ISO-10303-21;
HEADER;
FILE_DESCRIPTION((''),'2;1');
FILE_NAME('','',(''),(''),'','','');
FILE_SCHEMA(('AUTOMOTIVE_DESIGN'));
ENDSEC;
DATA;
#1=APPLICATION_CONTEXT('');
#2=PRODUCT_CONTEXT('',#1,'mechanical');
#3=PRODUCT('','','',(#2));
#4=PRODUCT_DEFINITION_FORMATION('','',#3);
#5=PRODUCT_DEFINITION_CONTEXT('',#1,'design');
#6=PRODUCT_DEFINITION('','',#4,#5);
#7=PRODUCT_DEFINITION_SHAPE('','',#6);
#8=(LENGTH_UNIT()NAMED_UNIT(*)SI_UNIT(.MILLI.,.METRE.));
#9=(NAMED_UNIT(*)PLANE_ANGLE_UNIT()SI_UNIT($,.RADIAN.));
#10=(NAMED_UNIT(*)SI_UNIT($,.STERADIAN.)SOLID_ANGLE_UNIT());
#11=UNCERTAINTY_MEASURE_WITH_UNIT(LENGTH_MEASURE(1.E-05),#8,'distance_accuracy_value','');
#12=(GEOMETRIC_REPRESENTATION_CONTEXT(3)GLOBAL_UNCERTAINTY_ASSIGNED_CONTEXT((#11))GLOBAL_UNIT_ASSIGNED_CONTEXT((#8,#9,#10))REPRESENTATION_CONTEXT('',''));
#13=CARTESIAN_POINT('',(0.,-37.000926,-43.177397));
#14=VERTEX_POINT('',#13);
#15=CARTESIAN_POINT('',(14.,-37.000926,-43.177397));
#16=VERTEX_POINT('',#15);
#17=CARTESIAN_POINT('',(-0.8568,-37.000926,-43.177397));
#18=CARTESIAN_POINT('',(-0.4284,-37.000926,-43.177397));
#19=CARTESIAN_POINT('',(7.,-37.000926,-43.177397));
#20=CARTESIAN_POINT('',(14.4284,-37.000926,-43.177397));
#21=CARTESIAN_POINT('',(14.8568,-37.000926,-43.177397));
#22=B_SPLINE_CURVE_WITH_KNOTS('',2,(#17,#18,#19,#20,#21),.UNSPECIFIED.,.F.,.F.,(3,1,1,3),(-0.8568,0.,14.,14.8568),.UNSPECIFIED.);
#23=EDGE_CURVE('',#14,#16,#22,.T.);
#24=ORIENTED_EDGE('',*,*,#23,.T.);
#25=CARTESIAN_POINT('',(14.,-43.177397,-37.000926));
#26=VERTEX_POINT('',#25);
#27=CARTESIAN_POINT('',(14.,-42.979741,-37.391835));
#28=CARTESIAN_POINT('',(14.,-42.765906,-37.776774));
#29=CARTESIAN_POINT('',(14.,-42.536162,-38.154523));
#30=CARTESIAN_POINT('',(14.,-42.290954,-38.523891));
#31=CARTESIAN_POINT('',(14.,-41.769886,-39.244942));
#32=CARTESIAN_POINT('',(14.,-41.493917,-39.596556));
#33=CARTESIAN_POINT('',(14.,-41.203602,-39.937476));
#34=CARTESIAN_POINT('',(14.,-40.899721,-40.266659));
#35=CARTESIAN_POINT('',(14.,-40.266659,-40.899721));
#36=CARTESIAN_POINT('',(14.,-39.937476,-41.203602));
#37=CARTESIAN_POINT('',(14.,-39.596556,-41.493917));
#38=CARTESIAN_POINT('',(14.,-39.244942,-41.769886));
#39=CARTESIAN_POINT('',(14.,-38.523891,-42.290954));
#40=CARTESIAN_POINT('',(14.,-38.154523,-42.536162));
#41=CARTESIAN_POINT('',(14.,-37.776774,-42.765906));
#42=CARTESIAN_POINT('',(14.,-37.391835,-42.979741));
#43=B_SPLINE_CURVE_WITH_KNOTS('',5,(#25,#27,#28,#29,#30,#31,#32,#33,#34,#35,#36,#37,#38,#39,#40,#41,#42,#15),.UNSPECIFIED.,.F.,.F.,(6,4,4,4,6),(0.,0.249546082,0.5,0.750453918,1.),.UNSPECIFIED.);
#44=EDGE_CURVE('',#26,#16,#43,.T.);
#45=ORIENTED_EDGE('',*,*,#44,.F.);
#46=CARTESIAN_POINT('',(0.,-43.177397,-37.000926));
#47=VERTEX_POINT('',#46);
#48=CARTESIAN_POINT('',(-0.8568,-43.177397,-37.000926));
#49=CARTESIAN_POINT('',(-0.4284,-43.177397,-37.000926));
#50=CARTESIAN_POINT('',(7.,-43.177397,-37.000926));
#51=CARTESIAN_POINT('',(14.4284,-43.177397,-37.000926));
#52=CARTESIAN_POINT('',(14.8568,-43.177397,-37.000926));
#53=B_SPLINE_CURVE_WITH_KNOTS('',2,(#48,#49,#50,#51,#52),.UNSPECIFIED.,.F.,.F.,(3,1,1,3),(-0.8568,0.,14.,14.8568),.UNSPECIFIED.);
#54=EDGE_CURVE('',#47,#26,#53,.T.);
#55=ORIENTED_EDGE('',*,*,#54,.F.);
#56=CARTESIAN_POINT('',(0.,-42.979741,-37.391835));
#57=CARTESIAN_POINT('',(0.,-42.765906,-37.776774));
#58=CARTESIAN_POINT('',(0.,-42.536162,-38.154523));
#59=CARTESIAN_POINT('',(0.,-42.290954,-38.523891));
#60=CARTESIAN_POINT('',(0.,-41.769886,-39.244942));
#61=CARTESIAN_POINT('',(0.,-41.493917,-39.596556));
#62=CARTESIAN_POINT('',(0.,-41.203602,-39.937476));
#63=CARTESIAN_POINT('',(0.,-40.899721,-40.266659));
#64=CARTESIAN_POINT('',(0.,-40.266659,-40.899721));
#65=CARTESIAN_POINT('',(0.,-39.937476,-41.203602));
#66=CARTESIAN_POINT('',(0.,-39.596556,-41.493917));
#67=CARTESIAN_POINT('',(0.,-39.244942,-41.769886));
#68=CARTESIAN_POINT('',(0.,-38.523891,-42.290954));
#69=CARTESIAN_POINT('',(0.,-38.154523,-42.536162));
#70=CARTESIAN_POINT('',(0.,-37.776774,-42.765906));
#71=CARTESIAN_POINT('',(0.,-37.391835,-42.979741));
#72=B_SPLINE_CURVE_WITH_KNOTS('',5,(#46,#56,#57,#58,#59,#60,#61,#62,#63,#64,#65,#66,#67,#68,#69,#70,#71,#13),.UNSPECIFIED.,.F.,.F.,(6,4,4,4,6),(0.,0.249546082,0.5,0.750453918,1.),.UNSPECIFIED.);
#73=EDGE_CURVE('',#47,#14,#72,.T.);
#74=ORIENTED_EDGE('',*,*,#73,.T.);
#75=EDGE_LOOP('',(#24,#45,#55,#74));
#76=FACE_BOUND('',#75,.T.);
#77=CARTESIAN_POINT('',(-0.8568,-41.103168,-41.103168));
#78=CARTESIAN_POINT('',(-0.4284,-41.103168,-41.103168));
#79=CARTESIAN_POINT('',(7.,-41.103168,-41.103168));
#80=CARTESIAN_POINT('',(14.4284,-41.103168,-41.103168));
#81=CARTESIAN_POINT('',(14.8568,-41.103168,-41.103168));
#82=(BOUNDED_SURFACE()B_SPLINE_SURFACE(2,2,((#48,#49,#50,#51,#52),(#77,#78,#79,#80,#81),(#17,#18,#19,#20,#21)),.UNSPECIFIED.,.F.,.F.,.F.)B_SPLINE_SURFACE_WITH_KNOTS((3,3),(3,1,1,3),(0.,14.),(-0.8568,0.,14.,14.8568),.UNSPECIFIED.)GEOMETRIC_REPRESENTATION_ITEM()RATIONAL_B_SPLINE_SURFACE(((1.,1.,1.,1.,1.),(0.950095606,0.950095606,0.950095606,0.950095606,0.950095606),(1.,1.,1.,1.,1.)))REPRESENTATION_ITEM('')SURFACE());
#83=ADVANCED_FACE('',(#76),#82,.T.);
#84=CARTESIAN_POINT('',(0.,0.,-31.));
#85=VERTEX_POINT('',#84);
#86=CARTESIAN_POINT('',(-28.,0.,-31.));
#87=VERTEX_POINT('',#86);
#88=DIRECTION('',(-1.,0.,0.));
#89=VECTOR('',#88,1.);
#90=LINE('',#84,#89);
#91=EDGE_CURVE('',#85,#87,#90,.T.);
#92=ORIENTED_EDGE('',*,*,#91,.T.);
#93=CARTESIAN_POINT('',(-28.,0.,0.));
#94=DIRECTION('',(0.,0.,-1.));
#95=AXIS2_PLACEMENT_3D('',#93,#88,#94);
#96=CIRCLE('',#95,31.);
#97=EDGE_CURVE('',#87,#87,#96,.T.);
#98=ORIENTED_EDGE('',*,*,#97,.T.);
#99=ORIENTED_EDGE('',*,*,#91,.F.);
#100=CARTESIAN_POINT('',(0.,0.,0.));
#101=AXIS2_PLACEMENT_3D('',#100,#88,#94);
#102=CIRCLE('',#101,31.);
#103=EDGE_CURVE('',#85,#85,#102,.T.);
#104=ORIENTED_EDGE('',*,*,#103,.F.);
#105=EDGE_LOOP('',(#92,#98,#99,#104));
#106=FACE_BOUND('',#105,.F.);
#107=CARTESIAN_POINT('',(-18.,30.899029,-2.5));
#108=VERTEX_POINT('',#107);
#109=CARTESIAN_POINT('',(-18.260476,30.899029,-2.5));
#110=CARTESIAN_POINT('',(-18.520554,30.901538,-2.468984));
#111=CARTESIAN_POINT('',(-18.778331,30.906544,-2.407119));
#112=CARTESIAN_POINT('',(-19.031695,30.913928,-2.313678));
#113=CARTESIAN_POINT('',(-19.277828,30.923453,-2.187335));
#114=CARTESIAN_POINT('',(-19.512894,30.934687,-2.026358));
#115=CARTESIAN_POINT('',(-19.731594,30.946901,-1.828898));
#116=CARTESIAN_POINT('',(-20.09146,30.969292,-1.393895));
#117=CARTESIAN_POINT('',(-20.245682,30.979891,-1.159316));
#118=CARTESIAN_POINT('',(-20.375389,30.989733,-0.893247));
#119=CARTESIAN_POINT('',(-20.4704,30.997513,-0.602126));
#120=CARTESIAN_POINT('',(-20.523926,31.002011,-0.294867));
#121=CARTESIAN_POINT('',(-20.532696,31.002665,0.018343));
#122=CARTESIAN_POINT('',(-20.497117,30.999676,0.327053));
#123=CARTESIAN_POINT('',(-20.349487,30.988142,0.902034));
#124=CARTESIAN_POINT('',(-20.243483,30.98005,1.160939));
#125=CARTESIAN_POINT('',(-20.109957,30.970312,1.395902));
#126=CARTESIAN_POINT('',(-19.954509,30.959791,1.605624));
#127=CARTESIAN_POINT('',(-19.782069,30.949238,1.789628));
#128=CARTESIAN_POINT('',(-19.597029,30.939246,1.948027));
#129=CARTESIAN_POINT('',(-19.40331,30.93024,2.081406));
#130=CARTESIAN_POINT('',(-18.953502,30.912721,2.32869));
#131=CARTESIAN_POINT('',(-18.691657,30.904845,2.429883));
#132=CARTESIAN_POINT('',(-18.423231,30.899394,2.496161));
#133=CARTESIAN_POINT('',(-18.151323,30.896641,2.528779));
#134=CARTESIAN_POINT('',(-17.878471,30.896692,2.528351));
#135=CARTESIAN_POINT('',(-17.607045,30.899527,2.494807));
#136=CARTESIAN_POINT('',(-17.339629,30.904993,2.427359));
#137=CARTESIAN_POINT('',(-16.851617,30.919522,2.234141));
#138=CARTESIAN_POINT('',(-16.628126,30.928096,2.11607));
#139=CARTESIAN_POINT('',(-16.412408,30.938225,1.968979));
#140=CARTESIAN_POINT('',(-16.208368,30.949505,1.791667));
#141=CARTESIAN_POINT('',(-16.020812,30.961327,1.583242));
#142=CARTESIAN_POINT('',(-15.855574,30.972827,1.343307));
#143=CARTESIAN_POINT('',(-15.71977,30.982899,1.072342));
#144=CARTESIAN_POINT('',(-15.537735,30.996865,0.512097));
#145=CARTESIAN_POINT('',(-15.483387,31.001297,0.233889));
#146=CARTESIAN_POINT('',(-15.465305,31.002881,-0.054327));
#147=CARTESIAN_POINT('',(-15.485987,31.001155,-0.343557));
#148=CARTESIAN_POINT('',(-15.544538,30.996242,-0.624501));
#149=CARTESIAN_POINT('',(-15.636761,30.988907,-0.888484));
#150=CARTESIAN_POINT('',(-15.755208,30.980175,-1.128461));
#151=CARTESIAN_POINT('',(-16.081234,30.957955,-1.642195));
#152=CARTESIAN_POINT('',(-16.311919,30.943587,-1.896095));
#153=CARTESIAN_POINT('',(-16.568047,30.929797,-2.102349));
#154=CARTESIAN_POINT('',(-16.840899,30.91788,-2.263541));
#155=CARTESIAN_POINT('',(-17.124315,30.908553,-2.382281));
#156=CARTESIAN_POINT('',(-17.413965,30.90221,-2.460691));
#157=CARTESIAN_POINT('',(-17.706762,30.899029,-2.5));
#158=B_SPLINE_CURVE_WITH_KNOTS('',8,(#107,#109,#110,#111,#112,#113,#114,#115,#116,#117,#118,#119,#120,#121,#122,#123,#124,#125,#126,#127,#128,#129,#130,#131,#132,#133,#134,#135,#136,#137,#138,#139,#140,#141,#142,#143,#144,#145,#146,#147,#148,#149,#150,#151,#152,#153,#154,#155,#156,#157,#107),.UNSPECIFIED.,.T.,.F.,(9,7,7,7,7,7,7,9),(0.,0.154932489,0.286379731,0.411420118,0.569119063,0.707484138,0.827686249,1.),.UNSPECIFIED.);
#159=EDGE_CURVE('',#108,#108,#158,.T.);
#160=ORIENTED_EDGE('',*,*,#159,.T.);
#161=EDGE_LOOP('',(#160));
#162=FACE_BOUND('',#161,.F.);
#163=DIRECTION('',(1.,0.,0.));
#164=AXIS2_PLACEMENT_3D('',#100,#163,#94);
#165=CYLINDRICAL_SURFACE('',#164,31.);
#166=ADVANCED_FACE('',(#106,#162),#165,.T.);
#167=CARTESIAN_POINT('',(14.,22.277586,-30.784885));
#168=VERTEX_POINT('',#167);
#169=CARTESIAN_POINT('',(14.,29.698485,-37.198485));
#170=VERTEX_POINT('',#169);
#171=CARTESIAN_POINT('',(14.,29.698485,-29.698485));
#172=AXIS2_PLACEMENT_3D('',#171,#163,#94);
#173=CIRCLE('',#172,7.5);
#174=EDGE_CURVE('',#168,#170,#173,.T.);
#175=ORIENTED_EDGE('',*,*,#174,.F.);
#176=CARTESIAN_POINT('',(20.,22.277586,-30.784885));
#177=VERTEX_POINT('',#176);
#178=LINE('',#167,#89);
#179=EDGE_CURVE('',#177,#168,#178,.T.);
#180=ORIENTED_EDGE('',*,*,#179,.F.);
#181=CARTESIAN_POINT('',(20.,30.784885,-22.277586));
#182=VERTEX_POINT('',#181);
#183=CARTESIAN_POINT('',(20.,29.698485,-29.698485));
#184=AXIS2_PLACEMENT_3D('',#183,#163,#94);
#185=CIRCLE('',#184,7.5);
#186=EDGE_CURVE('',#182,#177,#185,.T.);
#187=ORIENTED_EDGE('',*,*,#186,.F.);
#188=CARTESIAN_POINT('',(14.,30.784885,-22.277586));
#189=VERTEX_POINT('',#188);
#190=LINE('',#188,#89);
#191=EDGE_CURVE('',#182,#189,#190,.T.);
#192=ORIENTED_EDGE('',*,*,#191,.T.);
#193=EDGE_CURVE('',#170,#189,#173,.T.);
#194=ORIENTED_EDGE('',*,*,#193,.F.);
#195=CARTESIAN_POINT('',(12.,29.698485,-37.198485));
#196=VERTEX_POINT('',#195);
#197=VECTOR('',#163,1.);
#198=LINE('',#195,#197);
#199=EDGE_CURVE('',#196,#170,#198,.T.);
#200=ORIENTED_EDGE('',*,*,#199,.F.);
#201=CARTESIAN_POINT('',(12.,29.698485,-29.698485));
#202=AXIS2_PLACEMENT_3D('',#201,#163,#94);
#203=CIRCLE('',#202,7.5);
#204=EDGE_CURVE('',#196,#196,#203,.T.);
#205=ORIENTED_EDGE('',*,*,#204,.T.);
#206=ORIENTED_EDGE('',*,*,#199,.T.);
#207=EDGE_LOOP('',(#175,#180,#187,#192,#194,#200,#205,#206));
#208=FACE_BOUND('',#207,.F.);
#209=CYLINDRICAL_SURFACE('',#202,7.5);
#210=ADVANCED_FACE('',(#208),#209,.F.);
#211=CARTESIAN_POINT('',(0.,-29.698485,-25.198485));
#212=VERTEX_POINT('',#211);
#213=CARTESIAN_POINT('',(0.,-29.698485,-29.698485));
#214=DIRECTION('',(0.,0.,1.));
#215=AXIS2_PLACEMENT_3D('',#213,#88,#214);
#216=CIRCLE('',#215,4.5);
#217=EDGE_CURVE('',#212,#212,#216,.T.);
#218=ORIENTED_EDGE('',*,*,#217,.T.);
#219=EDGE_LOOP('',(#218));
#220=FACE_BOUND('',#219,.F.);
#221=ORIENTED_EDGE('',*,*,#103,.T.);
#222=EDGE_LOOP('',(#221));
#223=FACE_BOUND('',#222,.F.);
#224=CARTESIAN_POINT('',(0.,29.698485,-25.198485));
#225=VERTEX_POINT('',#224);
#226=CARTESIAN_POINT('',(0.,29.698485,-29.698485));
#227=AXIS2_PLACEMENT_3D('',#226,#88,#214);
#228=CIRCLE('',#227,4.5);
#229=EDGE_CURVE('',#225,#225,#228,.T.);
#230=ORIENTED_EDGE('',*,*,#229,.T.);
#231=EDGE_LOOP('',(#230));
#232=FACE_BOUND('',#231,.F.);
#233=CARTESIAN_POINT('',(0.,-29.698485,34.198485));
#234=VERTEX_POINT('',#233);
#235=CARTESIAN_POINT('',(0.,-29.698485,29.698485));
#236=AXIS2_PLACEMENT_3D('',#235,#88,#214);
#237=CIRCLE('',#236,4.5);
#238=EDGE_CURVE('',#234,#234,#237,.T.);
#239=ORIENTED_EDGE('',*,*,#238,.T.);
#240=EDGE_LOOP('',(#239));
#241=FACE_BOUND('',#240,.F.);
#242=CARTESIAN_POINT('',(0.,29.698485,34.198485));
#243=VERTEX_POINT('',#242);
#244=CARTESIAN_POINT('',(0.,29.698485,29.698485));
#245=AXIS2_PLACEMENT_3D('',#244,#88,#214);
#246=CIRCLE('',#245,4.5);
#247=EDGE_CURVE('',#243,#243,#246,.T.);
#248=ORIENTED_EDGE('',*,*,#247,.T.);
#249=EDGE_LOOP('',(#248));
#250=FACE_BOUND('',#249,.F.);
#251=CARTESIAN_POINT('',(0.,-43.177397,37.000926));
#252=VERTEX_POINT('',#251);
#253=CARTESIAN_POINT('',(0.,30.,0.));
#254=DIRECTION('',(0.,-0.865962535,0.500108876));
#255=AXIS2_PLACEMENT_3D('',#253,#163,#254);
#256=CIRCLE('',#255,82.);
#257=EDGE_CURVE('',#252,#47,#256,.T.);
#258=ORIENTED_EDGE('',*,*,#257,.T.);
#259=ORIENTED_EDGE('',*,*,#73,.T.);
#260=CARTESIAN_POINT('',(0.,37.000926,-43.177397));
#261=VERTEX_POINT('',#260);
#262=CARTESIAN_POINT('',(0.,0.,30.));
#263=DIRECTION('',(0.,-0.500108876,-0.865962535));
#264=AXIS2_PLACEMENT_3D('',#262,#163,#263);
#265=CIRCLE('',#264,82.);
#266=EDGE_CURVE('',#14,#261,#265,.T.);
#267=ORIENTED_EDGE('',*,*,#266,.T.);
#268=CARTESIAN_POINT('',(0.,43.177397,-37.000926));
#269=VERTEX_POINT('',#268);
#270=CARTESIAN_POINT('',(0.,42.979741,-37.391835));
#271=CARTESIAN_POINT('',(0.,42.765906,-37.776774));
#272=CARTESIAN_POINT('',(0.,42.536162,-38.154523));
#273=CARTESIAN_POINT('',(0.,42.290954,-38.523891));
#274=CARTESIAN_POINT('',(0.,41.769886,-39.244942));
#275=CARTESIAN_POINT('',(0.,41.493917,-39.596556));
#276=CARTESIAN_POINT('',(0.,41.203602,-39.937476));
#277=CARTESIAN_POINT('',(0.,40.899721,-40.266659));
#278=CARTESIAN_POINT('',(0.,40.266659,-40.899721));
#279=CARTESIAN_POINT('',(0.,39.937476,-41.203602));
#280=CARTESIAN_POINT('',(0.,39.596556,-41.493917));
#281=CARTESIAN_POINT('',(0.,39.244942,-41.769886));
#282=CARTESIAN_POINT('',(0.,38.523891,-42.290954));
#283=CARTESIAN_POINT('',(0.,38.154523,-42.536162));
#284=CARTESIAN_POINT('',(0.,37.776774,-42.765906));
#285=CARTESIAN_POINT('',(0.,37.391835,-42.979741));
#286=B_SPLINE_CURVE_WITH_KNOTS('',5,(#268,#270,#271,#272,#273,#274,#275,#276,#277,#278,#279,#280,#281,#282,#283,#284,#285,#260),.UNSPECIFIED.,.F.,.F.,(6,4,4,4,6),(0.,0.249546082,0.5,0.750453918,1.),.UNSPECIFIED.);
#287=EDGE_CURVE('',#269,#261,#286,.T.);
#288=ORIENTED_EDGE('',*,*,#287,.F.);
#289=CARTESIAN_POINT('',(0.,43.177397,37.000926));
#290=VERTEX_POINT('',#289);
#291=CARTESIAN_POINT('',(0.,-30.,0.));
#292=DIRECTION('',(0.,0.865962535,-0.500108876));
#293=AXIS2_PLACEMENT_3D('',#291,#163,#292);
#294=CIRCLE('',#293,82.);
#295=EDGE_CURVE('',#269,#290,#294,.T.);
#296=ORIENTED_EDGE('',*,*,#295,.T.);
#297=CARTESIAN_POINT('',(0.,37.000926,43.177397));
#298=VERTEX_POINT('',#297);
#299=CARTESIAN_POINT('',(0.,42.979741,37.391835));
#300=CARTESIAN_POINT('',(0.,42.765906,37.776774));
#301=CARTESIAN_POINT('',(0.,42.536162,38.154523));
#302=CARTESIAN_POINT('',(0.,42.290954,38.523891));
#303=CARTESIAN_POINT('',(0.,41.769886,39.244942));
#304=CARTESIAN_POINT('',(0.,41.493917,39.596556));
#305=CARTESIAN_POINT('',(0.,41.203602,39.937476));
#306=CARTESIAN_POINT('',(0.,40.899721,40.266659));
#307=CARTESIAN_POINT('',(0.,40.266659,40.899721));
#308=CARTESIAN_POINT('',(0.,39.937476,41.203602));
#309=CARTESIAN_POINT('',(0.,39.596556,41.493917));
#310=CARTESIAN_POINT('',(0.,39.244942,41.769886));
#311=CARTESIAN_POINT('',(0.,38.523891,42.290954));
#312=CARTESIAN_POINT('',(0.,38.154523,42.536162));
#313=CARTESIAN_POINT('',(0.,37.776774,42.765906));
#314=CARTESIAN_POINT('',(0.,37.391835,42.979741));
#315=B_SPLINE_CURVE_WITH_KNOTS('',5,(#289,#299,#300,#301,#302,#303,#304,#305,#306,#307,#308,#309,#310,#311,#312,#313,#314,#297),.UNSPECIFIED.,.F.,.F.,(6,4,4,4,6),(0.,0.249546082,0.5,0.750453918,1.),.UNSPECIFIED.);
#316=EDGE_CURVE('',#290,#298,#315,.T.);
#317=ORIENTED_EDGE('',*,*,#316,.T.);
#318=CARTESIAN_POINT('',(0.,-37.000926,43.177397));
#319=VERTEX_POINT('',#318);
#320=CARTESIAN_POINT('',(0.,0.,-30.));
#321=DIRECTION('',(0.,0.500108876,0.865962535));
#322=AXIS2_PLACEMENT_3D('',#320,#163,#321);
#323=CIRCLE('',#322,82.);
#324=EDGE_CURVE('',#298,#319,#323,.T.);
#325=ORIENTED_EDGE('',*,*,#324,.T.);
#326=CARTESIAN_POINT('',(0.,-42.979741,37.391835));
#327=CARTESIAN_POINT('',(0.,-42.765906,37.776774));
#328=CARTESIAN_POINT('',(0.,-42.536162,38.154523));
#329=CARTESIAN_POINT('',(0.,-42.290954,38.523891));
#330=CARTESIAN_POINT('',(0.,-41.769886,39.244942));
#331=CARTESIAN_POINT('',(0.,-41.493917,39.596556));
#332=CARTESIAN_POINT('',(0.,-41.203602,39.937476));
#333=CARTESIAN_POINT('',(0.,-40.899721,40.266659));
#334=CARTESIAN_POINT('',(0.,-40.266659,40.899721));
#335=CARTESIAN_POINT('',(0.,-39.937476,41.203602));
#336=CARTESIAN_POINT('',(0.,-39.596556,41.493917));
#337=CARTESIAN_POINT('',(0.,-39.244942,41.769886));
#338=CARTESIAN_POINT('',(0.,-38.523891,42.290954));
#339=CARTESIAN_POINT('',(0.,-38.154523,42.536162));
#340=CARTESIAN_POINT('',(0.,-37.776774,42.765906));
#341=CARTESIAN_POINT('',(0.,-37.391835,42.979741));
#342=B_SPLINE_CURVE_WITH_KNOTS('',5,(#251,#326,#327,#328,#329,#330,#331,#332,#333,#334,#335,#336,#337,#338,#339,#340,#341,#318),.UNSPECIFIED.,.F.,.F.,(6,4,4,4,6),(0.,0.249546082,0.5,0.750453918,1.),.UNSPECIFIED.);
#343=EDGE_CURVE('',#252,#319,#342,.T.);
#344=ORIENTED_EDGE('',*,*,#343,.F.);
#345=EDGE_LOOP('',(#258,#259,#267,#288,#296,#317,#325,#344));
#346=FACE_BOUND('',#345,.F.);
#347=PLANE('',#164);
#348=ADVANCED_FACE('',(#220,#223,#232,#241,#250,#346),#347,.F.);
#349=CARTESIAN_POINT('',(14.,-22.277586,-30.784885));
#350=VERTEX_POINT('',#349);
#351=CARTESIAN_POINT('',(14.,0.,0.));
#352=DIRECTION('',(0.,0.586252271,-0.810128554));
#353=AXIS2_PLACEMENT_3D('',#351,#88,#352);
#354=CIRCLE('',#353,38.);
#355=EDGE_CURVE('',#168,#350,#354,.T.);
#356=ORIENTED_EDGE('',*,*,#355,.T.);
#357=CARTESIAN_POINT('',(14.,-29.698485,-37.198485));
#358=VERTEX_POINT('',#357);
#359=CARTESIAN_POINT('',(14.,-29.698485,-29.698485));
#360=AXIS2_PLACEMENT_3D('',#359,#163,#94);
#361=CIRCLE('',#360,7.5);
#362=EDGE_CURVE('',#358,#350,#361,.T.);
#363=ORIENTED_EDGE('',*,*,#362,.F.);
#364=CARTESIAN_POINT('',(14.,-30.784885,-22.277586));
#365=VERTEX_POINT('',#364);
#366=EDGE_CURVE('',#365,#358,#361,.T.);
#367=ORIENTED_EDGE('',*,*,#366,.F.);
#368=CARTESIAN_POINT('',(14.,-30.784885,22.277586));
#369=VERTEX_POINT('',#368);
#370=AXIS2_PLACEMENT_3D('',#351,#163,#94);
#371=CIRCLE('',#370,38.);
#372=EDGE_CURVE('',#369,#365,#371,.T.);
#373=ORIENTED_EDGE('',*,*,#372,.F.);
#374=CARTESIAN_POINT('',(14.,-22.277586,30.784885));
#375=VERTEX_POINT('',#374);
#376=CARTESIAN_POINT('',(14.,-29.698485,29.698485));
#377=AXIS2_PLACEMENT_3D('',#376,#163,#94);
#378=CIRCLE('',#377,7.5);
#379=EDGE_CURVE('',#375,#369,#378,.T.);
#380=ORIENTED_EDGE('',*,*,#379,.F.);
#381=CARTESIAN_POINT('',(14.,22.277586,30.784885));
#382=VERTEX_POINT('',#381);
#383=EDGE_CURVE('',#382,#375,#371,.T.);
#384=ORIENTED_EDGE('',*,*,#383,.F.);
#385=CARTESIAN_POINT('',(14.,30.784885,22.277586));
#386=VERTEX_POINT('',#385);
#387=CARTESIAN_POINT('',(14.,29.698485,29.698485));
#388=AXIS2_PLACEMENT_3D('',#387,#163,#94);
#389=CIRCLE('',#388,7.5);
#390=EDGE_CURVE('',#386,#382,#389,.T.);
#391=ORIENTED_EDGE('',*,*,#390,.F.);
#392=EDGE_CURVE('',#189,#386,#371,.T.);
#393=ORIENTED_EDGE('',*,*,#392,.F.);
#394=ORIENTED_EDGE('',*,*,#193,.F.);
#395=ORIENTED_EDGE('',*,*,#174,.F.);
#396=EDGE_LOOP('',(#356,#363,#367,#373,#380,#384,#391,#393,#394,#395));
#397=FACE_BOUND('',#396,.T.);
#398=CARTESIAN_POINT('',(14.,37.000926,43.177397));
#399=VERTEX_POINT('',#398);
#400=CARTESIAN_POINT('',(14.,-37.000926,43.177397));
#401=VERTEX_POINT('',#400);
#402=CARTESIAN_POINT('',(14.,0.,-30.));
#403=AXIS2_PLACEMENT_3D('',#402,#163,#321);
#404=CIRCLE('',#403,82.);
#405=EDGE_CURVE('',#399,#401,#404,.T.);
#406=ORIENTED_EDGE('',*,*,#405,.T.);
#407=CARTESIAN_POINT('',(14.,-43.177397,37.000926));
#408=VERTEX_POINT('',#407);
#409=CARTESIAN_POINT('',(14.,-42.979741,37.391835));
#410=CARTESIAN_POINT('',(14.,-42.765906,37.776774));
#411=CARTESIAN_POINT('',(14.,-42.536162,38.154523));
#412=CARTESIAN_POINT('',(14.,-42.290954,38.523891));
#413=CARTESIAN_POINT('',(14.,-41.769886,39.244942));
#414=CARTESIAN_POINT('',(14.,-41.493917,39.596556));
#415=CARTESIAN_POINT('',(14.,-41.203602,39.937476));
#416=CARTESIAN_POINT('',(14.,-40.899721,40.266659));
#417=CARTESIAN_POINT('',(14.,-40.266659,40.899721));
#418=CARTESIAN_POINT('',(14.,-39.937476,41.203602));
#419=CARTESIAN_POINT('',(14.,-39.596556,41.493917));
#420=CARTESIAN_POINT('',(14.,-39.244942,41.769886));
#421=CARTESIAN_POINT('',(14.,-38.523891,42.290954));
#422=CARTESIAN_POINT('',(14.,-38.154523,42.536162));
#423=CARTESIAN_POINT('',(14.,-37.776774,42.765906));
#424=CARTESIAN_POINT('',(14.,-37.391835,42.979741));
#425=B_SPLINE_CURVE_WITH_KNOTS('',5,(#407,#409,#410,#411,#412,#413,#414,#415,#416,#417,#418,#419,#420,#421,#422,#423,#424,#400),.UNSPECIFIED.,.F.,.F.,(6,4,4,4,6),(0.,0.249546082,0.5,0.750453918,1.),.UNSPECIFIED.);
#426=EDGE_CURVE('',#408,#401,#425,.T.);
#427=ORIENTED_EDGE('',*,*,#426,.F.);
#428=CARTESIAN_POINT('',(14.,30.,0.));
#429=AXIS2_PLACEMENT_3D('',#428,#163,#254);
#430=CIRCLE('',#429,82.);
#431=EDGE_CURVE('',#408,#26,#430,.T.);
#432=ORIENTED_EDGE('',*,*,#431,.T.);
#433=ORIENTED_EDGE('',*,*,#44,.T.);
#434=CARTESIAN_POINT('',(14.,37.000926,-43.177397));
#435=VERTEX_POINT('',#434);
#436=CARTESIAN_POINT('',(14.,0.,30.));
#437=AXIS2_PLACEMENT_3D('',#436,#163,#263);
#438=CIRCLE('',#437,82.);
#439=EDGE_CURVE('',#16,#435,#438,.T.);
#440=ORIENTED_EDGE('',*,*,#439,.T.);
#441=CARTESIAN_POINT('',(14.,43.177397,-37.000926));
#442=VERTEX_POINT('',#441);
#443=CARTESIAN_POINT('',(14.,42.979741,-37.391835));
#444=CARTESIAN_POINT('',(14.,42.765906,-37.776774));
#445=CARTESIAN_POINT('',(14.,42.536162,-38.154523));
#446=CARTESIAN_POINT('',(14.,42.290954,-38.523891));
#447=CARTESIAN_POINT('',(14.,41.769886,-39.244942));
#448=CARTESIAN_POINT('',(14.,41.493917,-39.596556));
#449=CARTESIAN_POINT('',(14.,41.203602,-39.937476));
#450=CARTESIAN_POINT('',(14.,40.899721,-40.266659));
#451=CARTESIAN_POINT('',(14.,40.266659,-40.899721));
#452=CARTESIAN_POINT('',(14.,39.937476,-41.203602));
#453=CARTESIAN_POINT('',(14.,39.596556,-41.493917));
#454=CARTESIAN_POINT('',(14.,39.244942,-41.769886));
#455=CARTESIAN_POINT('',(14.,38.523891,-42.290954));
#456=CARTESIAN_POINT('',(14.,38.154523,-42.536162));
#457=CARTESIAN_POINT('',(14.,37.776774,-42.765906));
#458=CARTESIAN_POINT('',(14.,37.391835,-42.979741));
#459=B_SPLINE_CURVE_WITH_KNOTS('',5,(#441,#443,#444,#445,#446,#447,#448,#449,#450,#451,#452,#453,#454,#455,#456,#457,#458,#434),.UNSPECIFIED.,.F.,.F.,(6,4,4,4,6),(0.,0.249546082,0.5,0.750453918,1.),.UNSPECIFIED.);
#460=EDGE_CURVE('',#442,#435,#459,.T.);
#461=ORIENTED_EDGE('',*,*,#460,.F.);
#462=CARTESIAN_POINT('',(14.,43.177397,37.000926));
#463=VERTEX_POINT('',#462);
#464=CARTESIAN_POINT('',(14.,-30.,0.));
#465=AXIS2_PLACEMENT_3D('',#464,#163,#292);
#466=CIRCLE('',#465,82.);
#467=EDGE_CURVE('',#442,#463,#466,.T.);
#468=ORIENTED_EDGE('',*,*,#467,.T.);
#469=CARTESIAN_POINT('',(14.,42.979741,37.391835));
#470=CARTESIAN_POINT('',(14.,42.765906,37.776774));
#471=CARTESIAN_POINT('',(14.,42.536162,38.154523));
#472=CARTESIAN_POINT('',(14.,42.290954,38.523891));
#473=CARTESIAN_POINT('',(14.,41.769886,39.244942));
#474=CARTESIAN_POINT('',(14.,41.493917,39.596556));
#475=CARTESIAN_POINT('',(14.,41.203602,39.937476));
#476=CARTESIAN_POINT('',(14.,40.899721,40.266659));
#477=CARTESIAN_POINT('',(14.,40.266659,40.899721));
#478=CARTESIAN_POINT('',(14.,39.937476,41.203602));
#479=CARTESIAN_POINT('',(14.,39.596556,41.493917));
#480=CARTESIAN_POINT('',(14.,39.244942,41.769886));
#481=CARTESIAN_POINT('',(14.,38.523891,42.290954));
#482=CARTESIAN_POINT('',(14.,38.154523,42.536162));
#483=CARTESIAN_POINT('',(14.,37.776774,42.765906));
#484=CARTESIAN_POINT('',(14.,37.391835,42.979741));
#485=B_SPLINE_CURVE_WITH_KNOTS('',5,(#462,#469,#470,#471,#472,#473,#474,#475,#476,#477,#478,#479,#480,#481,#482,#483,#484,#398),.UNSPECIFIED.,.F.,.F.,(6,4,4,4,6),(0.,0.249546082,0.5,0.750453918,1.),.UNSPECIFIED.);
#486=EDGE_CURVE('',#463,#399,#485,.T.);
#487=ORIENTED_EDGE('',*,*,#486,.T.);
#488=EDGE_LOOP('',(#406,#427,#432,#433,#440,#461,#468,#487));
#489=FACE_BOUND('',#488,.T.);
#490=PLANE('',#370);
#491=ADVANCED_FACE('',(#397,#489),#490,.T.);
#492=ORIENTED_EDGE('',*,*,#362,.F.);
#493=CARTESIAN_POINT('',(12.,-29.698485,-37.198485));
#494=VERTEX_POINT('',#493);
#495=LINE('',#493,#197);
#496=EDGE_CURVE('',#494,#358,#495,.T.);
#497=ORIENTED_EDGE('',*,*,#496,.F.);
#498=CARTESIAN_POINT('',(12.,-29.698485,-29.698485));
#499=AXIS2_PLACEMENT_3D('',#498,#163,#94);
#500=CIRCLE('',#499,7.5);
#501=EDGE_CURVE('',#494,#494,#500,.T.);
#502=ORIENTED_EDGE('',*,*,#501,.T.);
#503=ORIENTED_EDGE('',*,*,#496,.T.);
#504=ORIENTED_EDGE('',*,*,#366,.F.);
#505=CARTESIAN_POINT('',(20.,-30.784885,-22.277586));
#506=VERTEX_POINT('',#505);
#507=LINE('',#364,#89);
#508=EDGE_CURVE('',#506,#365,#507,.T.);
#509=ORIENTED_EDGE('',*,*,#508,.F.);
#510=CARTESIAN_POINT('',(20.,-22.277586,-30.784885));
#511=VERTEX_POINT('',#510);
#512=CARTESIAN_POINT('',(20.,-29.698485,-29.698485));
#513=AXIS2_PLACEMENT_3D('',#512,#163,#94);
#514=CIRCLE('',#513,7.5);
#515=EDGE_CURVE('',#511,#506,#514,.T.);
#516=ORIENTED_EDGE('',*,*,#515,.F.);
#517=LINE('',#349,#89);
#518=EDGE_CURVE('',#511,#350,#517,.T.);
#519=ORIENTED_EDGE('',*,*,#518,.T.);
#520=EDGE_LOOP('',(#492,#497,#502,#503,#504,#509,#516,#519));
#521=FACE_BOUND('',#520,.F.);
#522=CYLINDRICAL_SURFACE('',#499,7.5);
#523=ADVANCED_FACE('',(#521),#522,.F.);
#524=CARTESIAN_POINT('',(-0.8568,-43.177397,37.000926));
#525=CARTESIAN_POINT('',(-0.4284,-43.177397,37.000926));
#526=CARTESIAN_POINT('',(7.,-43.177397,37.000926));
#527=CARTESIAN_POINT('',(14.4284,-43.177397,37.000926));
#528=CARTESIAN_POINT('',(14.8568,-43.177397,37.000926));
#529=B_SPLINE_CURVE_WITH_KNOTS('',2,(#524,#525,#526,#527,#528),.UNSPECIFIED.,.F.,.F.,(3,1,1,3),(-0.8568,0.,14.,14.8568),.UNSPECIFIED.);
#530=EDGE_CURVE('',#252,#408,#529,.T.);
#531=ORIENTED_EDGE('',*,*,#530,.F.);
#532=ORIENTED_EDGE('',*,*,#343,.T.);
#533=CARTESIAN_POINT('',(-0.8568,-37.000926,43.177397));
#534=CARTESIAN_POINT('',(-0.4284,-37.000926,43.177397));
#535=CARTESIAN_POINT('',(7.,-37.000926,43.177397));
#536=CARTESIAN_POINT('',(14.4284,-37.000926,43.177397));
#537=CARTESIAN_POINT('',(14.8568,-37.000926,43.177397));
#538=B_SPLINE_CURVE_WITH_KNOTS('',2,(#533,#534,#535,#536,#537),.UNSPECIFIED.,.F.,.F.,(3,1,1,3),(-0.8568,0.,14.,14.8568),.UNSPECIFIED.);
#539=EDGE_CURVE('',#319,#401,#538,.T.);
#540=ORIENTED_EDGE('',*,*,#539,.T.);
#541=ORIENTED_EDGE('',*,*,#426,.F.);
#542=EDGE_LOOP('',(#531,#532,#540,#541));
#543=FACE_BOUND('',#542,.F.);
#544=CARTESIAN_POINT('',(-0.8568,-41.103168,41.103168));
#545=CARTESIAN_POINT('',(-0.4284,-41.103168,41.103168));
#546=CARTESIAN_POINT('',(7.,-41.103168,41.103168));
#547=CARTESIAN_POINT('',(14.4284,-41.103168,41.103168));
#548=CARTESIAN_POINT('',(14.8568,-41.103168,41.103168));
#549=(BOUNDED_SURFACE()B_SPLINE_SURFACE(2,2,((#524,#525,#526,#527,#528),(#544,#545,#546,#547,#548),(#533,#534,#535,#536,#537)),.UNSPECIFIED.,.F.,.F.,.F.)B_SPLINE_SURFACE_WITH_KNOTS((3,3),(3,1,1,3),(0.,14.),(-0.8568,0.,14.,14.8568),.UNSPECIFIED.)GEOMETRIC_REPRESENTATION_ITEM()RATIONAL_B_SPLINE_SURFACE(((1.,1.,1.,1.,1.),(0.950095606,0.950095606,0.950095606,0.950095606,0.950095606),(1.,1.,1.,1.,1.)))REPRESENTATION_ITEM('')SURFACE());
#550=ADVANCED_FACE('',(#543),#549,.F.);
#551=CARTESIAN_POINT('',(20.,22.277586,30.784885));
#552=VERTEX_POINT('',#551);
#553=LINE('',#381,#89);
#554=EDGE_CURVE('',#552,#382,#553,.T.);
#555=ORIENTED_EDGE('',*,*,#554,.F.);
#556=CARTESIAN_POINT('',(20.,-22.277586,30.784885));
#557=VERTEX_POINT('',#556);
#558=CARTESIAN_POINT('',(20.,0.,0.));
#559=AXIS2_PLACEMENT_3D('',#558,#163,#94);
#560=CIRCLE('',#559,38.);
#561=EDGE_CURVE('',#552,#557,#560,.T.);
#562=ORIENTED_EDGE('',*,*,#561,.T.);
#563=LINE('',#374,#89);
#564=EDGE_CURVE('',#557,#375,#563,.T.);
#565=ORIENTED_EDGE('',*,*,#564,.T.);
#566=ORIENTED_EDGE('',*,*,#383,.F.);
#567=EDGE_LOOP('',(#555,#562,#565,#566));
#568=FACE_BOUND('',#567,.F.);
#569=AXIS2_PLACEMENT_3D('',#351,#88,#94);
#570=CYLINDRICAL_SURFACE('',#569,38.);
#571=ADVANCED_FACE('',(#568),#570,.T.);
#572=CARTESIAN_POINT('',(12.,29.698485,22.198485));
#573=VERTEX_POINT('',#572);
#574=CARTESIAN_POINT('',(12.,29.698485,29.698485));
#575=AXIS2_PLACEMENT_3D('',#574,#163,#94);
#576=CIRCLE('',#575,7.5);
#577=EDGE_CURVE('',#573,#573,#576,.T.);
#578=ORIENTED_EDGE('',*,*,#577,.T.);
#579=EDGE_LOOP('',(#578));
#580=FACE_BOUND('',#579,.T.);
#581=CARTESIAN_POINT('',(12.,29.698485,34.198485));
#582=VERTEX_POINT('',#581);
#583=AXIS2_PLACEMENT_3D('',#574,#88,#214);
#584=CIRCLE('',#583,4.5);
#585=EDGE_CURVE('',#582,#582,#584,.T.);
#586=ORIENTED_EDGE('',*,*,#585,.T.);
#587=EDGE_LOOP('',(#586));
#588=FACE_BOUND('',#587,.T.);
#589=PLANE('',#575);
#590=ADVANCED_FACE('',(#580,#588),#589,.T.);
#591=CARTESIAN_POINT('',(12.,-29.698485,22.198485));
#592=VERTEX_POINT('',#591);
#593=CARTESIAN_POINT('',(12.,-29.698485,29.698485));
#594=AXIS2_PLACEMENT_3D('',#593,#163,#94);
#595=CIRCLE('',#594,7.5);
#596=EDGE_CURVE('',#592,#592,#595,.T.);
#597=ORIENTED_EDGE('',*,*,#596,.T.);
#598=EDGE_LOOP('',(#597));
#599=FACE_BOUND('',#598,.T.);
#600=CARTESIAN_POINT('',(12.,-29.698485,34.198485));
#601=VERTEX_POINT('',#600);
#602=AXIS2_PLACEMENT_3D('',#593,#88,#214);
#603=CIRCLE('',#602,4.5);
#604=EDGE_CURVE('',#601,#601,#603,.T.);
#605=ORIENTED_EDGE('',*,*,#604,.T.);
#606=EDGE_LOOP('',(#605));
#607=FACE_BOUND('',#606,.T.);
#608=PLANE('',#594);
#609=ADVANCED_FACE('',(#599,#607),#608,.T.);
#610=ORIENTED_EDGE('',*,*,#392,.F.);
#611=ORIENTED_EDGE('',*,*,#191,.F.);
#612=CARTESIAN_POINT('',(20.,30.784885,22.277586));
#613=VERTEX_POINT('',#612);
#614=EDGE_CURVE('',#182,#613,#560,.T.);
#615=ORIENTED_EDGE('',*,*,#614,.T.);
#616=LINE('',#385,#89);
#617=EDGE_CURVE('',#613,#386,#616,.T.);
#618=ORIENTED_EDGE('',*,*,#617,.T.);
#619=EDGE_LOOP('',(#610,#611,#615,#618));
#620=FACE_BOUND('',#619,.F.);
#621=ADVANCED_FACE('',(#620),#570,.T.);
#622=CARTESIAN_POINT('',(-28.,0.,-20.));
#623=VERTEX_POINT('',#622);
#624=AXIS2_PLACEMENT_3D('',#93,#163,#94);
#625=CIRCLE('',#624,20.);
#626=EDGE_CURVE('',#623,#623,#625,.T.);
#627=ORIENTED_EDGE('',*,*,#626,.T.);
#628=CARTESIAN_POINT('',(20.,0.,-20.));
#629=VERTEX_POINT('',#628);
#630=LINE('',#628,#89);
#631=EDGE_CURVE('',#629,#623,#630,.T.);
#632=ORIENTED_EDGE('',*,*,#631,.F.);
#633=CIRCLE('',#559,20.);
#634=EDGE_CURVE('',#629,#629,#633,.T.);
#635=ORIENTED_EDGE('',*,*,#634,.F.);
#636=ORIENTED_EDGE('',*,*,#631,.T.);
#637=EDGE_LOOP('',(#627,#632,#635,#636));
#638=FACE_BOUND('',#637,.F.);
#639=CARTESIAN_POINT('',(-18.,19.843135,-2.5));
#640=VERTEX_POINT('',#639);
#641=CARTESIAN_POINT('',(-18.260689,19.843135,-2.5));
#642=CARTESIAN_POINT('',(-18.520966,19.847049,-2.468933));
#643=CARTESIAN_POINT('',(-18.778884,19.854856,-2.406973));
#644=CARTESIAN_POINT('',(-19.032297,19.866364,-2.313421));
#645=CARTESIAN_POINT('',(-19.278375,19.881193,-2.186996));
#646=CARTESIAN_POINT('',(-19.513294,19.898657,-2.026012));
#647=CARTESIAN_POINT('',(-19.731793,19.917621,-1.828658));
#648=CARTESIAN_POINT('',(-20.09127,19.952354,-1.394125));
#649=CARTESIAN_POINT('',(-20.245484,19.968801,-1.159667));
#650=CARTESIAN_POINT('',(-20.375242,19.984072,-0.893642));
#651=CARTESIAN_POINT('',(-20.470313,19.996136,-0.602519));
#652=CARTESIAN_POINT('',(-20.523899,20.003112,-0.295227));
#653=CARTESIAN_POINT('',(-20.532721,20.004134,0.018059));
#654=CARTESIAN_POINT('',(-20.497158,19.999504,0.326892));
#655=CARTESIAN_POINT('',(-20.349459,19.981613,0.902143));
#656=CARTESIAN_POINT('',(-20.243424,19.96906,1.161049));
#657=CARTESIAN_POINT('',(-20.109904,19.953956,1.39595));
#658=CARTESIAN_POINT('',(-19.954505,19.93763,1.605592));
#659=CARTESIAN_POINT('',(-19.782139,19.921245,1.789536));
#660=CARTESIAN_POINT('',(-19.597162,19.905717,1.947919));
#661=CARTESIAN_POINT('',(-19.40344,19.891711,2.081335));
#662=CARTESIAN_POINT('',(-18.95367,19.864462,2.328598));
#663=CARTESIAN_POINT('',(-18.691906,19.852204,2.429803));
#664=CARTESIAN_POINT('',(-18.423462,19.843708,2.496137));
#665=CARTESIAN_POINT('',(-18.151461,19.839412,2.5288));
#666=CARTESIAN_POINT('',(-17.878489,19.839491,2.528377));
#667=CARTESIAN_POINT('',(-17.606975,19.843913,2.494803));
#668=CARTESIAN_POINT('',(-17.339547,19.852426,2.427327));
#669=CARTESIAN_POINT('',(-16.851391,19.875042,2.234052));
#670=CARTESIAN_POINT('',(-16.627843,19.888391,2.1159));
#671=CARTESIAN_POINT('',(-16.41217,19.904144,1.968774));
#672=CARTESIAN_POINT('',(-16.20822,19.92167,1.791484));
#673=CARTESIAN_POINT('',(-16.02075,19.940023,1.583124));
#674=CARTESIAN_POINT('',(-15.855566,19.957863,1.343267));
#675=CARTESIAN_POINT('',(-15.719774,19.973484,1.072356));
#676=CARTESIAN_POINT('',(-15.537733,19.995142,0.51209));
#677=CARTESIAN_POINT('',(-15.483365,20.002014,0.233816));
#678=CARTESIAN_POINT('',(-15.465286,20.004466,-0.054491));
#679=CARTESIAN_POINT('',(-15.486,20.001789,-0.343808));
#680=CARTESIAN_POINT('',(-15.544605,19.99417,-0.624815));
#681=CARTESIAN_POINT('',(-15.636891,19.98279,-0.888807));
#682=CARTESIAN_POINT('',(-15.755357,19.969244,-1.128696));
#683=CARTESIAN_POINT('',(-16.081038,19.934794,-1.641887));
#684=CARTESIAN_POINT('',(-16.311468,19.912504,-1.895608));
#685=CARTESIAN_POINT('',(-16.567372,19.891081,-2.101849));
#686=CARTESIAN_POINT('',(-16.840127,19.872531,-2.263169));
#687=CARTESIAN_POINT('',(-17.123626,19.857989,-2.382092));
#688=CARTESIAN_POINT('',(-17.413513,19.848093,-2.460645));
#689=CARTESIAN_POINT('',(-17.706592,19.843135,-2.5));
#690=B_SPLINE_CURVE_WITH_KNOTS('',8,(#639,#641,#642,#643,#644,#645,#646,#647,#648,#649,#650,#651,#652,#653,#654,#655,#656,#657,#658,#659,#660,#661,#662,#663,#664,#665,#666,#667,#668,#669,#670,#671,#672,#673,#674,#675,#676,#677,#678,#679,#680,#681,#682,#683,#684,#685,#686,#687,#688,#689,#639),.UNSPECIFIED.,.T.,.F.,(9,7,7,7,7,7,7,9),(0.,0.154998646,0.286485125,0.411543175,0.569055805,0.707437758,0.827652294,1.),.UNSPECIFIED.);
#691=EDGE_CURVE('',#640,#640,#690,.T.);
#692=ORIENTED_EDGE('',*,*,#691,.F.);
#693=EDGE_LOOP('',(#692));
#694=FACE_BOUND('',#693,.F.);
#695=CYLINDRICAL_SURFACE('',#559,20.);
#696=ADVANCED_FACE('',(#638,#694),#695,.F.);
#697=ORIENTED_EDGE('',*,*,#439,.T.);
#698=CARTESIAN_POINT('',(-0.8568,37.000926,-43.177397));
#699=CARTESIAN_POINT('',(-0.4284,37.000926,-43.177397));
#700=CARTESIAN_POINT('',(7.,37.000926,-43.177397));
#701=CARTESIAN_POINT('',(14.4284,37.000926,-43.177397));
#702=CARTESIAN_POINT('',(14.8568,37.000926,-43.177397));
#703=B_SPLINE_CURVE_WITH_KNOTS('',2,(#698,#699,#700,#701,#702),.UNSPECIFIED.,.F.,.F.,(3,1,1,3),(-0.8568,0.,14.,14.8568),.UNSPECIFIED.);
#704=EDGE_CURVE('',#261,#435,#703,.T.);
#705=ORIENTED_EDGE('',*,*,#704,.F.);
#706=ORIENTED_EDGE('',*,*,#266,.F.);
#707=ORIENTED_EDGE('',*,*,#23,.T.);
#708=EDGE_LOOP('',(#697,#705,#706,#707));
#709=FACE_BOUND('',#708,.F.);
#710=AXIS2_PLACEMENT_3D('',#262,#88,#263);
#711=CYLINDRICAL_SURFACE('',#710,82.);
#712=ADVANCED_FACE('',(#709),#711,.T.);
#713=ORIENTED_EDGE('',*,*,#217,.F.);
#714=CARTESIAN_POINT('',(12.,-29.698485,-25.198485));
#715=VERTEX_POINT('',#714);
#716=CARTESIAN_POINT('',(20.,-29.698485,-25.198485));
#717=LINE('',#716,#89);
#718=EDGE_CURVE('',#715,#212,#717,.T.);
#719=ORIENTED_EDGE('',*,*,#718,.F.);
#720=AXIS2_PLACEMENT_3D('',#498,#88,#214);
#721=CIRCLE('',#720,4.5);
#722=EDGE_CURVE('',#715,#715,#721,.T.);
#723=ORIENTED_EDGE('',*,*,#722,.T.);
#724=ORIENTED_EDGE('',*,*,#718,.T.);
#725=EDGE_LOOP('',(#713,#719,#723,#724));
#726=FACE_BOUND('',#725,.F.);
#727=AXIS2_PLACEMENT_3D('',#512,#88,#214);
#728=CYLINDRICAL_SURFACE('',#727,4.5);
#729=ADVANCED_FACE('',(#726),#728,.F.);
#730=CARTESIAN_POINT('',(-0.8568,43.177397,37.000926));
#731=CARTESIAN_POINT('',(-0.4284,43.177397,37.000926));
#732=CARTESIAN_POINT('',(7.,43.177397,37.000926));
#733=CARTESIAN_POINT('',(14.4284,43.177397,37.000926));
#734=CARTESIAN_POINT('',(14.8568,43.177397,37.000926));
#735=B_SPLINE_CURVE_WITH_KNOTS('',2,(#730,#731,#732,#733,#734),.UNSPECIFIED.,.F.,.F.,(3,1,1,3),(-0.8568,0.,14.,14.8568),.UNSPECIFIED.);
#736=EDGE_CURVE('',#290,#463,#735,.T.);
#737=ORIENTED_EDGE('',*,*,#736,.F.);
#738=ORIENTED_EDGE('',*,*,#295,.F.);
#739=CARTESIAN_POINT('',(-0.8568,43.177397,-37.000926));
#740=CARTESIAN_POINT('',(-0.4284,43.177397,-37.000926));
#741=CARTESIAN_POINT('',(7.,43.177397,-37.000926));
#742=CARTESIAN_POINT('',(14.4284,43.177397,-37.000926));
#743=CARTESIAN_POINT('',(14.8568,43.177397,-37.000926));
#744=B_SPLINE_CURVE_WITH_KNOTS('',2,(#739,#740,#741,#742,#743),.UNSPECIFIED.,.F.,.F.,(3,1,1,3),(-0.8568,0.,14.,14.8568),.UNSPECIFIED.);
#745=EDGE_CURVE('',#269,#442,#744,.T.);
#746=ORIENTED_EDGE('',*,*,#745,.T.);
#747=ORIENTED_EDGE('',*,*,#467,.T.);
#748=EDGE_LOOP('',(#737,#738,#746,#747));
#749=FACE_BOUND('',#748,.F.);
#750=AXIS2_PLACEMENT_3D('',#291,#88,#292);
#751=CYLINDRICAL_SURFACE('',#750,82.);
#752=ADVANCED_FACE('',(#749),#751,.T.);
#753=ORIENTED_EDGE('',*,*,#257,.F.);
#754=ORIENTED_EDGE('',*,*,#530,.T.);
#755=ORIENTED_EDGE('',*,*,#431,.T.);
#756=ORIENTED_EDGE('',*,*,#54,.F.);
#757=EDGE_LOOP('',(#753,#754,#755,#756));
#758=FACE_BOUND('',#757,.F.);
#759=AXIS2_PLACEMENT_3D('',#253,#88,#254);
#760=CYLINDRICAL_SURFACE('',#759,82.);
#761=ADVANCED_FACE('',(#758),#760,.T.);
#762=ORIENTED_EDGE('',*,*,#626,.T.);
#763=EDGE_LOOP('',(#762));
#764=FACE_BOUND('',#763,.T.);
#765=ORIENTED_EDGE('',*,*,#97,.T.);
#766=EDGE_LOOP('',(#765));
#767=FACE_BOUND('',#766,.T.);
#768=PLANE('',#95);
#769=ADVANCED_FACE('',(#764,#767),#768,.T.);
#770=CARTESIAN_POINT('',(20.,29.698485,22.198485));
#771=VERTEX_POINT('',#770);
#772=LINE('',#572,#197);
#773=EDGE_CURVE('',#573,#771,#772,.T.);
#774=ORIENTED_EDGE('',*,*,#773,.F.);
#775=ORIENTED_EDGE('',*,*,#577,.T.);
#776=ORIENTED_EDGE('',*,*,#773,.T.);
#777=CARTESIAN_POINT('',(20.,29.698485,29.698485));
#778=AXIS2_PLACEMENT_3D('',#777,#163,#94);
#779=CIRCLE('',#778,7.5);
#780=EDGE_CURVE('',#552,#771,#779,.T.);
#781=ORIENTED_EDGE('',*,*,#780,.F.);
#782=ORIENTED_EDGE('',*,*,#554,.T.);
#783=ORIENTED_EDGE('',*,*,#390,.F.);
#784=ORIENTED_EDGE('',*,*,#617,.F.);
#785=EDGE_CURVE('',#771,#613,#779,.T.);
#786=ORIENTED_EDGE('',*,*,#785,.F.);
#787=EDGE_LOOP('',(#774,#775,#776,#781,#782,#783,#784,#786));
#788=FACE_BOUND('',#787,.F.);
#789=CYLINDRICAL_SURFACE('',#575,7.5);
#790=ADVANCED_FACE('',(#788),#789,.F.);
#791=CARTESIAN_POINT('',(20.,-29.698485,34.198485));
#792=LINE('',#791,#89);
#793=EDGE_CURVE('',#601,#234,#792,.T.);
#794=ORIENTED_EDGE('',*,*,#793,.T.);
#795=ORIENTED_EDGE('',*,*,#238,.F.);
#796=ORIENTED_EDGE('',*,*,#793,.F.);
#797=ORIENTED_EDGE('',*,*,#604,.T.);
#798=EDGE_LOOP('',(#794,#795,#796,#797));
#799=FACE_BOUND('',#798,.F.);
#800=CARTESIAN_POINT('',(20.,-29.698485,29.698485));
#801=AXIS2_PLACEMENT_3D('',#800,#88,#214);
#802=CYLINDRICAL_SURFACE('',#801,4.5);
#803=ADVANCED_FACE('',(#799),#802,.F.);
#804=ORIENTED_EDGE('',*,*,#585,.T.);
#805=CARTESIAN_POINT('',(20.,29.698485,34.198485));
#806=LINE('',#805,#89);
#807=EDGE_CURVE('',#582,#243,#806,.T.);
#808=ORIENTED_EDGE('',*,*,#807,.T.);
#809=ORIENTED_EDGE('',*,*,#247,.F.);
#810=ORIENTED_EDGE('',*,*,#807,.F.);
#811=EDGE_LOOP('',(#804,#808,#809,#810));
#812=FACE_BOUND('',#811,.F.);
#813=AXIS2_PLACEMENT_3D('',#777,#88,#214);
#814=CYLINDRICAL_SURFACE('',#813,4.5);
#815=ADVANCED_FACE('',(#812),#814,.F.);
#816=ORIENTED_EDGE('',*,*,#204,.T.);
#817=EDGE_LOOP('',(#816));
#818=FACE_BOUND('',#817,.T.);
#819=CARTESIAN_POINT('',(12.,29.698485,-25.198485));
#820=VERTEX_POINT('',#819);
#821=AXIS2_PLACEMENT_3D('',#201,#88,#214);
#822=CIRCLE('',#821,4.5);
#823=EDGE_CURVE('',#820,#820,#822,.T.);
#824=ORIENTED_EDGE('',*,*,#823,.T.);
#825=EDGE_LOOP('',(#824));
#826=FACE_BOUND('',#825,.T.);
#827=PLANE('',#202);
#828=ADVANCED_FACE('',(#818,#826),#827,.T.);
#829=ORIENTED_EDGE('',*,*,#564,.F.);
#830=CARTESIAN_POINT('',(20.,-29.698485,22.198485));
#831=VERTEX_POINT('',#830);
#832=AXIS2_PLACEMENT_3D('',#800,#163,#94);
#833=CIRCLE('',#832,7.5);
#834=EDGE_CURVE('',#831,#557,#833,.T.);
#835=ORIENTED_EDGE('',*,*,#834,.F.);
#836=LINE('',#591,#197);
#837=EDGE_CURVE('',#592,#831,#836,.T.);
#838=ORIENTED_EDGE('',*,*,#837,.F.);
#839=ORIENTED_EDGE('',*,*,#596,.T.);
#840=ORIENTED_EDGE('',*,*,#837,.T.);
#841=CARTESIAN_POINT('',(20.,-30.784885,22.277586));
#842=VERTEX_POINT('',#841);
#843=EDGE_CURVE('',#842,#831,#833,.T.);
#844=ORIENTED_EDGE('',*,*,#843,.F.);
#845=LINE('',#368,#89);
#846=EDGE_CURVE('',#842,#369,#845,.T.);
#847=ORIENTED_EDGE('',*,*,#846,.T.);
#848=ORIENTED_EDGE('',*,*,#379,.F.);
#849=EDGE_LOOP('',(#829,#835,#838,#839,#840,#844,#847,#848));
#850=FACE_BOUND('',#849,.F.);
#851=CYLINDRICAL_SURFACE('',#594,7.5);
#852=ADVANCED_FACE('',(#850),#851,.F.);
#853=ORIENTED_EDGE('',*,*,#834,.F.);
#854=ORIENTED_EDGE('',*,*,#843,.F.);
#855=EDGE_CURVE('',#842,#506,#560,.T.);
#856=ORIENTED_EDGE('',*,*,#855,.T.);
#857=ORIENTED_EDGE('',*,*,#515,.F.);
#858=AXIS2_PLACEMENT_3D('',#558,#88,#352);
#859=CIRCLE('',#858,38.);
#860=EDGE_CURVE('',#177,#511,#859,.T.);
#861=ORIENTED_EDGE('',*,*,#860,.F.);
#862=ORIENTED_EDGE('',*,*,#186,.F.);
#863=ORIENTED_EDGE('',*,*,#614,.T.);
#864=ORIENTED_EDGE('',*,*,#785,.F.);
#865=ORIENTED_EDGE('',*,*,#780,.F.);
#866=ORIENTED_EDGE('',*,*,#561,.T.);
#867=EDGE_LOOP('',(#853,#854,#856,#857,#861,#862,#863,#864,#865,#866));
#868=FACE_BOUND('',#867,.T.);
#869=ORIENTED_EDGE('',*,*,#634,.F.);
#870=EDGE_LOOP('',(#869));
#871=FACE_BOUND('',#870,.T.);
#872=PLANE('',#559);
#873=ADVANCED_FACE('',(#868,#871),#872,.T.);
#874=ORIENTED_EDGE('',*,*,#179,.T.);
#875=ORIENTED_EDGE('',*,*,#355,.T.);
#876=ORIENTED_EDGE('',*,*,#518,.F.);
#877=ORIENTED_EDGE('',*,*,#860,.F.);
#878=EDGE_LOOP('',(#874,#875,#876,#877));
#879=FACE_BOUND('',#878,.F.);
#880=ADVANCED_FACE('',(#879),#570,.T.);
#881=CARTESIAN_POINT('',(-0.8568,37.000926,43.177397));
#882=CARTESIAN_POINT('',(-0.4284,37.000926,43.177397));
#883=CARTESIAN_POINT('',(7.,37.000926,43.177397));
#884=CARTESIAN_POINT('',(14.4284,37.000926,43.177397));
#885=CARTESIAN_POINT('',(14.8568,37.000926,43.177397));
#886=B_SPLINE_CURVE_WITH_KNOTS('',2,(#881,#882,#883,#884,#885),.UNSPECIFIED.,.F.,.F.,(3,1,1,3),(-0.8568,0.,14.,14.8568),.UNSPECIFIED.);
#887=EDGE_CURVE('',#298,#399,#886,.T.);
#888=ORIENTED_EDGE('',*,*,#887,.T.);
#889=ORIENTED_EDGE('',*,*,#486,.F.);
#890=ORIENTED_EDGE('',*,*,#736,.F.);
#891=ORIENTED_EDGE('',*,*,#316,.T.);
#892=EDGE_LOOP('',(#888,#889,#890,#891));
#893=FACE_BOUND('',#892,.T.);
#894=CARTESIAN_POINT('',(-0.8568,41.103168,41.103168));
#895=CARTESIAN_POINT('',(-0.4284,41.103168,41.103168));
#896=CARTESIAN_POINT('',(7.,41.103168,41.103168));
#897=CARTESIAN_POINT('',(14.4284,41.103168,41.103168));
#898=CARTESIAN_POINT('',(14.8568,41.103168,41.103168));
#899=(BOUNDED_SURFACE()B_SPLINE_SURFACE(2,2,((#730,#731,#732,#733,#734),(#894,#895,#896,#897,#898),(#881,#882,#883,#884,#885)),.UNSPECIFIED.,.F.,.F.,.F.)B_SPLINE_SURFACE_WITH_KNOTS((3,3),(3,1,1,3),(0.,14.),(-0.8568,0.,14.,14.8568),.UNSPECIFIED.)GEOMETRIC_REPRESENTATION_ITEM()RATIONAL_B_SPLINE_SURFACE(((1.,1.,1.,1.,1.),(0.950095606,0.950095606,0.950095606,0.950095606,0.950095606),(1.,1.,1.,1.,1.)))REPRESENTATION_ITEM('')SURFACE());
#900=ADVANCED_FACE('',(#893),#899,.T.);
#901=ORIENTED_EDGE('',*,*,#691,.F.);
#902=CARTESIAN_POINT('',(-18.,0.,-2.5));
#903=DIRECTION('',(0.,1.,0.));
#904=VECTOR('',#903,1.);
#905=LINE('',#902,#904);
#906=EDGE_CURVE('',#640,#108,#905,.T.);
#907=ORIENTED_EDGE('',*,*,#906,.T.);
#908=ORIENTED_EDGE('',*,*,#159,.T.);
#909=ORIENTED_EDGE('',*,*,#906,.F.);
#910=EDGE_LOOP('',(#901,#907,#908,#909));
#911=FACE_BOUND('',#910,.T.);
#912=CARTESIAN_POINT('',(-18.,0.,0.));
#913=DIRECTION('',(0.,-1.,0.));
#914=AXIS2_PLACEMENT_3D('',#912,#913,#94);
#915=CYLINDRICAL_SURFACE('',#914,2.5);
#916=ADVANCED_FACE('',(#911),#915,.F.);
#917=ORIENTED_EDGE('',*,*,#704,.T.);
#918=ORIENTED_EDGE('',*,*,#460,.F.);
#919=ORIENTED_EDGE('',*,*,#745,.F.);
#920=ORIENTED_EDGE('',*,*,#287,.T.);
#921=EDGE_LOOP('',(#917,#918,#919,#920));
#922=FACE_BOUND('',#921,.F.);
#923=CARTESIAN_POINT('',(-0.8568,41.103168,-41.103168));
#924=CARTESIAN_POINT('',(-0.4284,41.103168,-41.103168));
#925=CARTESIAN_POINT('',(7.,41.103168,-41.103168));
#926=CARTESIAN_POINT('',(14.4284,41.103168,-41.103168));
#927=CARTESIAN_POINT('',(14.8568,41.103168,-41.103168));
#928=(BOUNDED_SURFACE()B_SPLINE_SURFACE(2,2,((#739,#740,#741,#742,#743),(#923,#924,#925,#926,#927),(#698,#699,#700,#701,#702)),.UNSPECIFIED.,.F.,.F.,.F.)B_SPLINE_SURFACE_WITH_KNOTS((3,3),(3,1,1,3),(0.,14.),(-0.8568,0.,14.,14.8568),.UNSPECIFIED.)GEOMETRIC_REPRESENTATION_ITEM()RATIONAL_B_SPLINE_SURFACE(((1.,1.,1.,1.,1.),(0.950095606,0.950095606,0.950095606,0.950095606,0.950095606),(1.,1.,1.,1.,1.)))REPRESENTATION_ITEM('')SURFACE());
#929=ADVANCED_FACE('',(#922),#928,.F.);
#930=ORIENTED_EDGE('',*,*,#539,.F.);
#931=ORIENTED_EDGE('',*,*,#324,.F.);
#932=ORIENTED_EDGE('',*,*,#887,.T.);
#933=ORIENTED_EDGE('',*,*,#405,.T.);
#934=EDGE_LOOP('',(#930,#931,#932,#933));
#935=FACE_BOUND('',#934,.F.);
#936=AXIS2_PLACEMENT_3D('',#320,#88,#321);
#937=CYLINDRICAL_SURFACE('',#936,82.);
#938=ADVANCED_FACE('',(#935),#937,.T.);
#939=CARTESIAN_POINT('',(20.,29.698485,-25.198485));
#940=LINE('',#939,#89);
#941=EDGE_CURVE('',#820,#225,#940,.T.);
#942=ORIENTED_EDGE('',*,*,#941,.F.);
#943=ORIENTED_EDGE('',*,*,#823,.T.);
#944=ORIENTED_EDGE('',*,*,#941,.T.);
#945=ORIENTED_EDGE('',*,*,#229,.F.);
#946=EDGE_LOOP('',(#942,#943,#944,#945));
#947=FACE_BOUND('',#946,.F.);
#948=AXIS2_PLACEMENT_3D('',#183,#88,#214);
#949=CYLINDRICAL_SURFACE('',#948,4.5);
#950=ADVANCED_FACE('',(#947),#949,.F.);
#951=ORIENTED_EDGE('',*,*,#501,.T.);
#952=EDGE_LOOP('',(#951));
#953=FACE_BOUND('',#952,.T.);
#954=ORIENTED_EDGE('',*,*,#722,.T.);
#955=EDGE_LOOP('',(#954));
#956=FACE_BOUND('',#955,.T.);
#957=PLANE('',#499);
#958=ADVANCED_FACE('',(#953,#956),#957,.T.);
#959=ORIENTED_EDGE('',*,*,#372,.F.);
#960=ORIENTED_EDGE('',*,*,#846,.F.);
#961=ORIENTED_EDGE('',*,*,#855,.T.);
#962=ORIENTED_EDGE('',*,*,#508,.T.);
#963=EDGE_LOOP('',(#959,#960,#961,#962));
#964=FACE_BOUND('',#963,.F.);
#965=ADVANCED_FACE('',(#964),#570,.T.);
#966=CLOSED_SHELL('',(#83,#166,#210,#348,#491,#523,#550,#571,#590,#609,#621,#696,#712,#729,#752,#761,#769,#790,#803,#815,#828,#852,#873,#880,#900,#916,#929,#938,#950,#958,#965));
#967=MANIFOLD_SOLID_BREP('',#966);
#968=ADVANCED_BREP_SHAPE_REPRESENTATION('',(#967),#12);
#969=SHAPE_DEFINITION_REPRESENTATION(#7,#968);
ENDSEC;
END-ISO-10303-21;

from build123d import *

# Parameters (mm, degrees)
EXTRUDE_1_DEPTH              = 14
SKETCH_2_R                   = 38
EXTRUDE_2_DEPTH              = 6
SKETCH_3_R                   = 31
EXTRUDE_3_DEPTH              = 28
SKETCH_4_R                   = 20
CUT_EXTRUDE_4_DEPTH          = 88.8179936
SKETCH_5_R                   = 2.5
CUT_EXTRUDE_5_DEPTH          = 79.689262292
HOLE_WIZARD_M8_1_D           = 9
HOLE_WIZARD_M8_1_CBORE_D     = 15
HOLE_WIZARD_M8_1_CBORE_DEPTH = 8
FILLET_1_R                   = 14


with BuildPart() as part:
    # 草圖1 → 伸長1 (new body)
    with BuildSketch(Plane(origin=(0, 0, 0), x_dir=(0, 0, -1), z_dir=(1, 0, 0))):
        with BuildLine():
            ThreePointArc((41.00892786, 41.00892786), (0, 52), (-41.00892786, 41.00892786))
            ThreePointArc((-41.00892786, 41.00892786), (-52, 0), (-41.00892786, -41.00892786))
            ThreePointArc((-41.00892786, -41.00892786), (0, -52), (41.00892786, -41.00892786))
            ThreePointArc((41.00892786, -41.00892786), (52, 0), (41.00892786, 41.00892786))
        make_face()
    extrude(amount=EXTRUDE_1_DEPTH)

    # 草圖2 → 伸長2 (add)
    with BuildSketch(Plane(origin=(14, 0, 0), x_dir=(0, 0, -1), z_dir=(1, 0, 0))):
        Circle(SKETCH_2_R)
    extrude(amount=EXTRUDE_2_DEPTH)

    # 草圖3 → 伸長3 (add)
    with BuildSketch(Plane.ZY):
        with Locations(Location((0, 0, 0), (0, 0, 180))):
            Circle(SKETCH_3_R)
    extrude(amount=EXTRUDE_3_DEPTH)

    # 草圖4 → 伸長4 (cut, through all)
    with BuildSketch(Plane(origin=(20, 0, 0), x_dir=(0, 0, -1), z_dir=(1, 0, 0))):
        Circle(SKETCH_4_R)
    extrude(amount=-CUT_EXTRUDE_4_DEPTH, mode=Mode.SUBTRACT)

    # 草圖5 → 伸長5 (cut, through all)
    with BuildSketch(Plane(origin=(0, 0, 0), x_dir=(1, 0, 0), z_dir=(0, 1, 0))):
        with Locations(Location((-18, 0, 0), (0, 0, 90))):
            Circle(SKETCH_5_R)
    extrude(amount=CUT_EXTRUDE_5_DEPTH, mode=Mode.SUBTRACT)

    # M8 六角承窩頭蓋螺釘的柱孔1 (through all)
    with Locations(Plane(origin=(20, 0, 0), x_dir=(0, 0, -1), z_dir=(1, 0, 0))):
        with Locations((29.69848481, 29.69848481), (29.69848481, -29.69848481), (-29.69848481, 29.69848481), (-29.69848481, -29.69848481)):
            CounterBoreHole(HOLE_WIZARD_M8_1_D / 2, HOLE_WIZARD_M8_1_CBORE_D / 2, HOLE_WIZARD_M8_1_CBORE_DEPTH)

    # 圓角1
    fillet_1_edges = [part.edges().sort_by_distance(p)[0] for p in [
        (7, 41.00892786, 41.00892786),
        (7, 41.00892786, -41.00892786),
        (7, -41.00892786, -41.00892786),
        (7, -41.00892786, 41.00892786),
    ]]
    fillet(fillet_1_edges, radius=FILLET_1_R)


solid = part.part
